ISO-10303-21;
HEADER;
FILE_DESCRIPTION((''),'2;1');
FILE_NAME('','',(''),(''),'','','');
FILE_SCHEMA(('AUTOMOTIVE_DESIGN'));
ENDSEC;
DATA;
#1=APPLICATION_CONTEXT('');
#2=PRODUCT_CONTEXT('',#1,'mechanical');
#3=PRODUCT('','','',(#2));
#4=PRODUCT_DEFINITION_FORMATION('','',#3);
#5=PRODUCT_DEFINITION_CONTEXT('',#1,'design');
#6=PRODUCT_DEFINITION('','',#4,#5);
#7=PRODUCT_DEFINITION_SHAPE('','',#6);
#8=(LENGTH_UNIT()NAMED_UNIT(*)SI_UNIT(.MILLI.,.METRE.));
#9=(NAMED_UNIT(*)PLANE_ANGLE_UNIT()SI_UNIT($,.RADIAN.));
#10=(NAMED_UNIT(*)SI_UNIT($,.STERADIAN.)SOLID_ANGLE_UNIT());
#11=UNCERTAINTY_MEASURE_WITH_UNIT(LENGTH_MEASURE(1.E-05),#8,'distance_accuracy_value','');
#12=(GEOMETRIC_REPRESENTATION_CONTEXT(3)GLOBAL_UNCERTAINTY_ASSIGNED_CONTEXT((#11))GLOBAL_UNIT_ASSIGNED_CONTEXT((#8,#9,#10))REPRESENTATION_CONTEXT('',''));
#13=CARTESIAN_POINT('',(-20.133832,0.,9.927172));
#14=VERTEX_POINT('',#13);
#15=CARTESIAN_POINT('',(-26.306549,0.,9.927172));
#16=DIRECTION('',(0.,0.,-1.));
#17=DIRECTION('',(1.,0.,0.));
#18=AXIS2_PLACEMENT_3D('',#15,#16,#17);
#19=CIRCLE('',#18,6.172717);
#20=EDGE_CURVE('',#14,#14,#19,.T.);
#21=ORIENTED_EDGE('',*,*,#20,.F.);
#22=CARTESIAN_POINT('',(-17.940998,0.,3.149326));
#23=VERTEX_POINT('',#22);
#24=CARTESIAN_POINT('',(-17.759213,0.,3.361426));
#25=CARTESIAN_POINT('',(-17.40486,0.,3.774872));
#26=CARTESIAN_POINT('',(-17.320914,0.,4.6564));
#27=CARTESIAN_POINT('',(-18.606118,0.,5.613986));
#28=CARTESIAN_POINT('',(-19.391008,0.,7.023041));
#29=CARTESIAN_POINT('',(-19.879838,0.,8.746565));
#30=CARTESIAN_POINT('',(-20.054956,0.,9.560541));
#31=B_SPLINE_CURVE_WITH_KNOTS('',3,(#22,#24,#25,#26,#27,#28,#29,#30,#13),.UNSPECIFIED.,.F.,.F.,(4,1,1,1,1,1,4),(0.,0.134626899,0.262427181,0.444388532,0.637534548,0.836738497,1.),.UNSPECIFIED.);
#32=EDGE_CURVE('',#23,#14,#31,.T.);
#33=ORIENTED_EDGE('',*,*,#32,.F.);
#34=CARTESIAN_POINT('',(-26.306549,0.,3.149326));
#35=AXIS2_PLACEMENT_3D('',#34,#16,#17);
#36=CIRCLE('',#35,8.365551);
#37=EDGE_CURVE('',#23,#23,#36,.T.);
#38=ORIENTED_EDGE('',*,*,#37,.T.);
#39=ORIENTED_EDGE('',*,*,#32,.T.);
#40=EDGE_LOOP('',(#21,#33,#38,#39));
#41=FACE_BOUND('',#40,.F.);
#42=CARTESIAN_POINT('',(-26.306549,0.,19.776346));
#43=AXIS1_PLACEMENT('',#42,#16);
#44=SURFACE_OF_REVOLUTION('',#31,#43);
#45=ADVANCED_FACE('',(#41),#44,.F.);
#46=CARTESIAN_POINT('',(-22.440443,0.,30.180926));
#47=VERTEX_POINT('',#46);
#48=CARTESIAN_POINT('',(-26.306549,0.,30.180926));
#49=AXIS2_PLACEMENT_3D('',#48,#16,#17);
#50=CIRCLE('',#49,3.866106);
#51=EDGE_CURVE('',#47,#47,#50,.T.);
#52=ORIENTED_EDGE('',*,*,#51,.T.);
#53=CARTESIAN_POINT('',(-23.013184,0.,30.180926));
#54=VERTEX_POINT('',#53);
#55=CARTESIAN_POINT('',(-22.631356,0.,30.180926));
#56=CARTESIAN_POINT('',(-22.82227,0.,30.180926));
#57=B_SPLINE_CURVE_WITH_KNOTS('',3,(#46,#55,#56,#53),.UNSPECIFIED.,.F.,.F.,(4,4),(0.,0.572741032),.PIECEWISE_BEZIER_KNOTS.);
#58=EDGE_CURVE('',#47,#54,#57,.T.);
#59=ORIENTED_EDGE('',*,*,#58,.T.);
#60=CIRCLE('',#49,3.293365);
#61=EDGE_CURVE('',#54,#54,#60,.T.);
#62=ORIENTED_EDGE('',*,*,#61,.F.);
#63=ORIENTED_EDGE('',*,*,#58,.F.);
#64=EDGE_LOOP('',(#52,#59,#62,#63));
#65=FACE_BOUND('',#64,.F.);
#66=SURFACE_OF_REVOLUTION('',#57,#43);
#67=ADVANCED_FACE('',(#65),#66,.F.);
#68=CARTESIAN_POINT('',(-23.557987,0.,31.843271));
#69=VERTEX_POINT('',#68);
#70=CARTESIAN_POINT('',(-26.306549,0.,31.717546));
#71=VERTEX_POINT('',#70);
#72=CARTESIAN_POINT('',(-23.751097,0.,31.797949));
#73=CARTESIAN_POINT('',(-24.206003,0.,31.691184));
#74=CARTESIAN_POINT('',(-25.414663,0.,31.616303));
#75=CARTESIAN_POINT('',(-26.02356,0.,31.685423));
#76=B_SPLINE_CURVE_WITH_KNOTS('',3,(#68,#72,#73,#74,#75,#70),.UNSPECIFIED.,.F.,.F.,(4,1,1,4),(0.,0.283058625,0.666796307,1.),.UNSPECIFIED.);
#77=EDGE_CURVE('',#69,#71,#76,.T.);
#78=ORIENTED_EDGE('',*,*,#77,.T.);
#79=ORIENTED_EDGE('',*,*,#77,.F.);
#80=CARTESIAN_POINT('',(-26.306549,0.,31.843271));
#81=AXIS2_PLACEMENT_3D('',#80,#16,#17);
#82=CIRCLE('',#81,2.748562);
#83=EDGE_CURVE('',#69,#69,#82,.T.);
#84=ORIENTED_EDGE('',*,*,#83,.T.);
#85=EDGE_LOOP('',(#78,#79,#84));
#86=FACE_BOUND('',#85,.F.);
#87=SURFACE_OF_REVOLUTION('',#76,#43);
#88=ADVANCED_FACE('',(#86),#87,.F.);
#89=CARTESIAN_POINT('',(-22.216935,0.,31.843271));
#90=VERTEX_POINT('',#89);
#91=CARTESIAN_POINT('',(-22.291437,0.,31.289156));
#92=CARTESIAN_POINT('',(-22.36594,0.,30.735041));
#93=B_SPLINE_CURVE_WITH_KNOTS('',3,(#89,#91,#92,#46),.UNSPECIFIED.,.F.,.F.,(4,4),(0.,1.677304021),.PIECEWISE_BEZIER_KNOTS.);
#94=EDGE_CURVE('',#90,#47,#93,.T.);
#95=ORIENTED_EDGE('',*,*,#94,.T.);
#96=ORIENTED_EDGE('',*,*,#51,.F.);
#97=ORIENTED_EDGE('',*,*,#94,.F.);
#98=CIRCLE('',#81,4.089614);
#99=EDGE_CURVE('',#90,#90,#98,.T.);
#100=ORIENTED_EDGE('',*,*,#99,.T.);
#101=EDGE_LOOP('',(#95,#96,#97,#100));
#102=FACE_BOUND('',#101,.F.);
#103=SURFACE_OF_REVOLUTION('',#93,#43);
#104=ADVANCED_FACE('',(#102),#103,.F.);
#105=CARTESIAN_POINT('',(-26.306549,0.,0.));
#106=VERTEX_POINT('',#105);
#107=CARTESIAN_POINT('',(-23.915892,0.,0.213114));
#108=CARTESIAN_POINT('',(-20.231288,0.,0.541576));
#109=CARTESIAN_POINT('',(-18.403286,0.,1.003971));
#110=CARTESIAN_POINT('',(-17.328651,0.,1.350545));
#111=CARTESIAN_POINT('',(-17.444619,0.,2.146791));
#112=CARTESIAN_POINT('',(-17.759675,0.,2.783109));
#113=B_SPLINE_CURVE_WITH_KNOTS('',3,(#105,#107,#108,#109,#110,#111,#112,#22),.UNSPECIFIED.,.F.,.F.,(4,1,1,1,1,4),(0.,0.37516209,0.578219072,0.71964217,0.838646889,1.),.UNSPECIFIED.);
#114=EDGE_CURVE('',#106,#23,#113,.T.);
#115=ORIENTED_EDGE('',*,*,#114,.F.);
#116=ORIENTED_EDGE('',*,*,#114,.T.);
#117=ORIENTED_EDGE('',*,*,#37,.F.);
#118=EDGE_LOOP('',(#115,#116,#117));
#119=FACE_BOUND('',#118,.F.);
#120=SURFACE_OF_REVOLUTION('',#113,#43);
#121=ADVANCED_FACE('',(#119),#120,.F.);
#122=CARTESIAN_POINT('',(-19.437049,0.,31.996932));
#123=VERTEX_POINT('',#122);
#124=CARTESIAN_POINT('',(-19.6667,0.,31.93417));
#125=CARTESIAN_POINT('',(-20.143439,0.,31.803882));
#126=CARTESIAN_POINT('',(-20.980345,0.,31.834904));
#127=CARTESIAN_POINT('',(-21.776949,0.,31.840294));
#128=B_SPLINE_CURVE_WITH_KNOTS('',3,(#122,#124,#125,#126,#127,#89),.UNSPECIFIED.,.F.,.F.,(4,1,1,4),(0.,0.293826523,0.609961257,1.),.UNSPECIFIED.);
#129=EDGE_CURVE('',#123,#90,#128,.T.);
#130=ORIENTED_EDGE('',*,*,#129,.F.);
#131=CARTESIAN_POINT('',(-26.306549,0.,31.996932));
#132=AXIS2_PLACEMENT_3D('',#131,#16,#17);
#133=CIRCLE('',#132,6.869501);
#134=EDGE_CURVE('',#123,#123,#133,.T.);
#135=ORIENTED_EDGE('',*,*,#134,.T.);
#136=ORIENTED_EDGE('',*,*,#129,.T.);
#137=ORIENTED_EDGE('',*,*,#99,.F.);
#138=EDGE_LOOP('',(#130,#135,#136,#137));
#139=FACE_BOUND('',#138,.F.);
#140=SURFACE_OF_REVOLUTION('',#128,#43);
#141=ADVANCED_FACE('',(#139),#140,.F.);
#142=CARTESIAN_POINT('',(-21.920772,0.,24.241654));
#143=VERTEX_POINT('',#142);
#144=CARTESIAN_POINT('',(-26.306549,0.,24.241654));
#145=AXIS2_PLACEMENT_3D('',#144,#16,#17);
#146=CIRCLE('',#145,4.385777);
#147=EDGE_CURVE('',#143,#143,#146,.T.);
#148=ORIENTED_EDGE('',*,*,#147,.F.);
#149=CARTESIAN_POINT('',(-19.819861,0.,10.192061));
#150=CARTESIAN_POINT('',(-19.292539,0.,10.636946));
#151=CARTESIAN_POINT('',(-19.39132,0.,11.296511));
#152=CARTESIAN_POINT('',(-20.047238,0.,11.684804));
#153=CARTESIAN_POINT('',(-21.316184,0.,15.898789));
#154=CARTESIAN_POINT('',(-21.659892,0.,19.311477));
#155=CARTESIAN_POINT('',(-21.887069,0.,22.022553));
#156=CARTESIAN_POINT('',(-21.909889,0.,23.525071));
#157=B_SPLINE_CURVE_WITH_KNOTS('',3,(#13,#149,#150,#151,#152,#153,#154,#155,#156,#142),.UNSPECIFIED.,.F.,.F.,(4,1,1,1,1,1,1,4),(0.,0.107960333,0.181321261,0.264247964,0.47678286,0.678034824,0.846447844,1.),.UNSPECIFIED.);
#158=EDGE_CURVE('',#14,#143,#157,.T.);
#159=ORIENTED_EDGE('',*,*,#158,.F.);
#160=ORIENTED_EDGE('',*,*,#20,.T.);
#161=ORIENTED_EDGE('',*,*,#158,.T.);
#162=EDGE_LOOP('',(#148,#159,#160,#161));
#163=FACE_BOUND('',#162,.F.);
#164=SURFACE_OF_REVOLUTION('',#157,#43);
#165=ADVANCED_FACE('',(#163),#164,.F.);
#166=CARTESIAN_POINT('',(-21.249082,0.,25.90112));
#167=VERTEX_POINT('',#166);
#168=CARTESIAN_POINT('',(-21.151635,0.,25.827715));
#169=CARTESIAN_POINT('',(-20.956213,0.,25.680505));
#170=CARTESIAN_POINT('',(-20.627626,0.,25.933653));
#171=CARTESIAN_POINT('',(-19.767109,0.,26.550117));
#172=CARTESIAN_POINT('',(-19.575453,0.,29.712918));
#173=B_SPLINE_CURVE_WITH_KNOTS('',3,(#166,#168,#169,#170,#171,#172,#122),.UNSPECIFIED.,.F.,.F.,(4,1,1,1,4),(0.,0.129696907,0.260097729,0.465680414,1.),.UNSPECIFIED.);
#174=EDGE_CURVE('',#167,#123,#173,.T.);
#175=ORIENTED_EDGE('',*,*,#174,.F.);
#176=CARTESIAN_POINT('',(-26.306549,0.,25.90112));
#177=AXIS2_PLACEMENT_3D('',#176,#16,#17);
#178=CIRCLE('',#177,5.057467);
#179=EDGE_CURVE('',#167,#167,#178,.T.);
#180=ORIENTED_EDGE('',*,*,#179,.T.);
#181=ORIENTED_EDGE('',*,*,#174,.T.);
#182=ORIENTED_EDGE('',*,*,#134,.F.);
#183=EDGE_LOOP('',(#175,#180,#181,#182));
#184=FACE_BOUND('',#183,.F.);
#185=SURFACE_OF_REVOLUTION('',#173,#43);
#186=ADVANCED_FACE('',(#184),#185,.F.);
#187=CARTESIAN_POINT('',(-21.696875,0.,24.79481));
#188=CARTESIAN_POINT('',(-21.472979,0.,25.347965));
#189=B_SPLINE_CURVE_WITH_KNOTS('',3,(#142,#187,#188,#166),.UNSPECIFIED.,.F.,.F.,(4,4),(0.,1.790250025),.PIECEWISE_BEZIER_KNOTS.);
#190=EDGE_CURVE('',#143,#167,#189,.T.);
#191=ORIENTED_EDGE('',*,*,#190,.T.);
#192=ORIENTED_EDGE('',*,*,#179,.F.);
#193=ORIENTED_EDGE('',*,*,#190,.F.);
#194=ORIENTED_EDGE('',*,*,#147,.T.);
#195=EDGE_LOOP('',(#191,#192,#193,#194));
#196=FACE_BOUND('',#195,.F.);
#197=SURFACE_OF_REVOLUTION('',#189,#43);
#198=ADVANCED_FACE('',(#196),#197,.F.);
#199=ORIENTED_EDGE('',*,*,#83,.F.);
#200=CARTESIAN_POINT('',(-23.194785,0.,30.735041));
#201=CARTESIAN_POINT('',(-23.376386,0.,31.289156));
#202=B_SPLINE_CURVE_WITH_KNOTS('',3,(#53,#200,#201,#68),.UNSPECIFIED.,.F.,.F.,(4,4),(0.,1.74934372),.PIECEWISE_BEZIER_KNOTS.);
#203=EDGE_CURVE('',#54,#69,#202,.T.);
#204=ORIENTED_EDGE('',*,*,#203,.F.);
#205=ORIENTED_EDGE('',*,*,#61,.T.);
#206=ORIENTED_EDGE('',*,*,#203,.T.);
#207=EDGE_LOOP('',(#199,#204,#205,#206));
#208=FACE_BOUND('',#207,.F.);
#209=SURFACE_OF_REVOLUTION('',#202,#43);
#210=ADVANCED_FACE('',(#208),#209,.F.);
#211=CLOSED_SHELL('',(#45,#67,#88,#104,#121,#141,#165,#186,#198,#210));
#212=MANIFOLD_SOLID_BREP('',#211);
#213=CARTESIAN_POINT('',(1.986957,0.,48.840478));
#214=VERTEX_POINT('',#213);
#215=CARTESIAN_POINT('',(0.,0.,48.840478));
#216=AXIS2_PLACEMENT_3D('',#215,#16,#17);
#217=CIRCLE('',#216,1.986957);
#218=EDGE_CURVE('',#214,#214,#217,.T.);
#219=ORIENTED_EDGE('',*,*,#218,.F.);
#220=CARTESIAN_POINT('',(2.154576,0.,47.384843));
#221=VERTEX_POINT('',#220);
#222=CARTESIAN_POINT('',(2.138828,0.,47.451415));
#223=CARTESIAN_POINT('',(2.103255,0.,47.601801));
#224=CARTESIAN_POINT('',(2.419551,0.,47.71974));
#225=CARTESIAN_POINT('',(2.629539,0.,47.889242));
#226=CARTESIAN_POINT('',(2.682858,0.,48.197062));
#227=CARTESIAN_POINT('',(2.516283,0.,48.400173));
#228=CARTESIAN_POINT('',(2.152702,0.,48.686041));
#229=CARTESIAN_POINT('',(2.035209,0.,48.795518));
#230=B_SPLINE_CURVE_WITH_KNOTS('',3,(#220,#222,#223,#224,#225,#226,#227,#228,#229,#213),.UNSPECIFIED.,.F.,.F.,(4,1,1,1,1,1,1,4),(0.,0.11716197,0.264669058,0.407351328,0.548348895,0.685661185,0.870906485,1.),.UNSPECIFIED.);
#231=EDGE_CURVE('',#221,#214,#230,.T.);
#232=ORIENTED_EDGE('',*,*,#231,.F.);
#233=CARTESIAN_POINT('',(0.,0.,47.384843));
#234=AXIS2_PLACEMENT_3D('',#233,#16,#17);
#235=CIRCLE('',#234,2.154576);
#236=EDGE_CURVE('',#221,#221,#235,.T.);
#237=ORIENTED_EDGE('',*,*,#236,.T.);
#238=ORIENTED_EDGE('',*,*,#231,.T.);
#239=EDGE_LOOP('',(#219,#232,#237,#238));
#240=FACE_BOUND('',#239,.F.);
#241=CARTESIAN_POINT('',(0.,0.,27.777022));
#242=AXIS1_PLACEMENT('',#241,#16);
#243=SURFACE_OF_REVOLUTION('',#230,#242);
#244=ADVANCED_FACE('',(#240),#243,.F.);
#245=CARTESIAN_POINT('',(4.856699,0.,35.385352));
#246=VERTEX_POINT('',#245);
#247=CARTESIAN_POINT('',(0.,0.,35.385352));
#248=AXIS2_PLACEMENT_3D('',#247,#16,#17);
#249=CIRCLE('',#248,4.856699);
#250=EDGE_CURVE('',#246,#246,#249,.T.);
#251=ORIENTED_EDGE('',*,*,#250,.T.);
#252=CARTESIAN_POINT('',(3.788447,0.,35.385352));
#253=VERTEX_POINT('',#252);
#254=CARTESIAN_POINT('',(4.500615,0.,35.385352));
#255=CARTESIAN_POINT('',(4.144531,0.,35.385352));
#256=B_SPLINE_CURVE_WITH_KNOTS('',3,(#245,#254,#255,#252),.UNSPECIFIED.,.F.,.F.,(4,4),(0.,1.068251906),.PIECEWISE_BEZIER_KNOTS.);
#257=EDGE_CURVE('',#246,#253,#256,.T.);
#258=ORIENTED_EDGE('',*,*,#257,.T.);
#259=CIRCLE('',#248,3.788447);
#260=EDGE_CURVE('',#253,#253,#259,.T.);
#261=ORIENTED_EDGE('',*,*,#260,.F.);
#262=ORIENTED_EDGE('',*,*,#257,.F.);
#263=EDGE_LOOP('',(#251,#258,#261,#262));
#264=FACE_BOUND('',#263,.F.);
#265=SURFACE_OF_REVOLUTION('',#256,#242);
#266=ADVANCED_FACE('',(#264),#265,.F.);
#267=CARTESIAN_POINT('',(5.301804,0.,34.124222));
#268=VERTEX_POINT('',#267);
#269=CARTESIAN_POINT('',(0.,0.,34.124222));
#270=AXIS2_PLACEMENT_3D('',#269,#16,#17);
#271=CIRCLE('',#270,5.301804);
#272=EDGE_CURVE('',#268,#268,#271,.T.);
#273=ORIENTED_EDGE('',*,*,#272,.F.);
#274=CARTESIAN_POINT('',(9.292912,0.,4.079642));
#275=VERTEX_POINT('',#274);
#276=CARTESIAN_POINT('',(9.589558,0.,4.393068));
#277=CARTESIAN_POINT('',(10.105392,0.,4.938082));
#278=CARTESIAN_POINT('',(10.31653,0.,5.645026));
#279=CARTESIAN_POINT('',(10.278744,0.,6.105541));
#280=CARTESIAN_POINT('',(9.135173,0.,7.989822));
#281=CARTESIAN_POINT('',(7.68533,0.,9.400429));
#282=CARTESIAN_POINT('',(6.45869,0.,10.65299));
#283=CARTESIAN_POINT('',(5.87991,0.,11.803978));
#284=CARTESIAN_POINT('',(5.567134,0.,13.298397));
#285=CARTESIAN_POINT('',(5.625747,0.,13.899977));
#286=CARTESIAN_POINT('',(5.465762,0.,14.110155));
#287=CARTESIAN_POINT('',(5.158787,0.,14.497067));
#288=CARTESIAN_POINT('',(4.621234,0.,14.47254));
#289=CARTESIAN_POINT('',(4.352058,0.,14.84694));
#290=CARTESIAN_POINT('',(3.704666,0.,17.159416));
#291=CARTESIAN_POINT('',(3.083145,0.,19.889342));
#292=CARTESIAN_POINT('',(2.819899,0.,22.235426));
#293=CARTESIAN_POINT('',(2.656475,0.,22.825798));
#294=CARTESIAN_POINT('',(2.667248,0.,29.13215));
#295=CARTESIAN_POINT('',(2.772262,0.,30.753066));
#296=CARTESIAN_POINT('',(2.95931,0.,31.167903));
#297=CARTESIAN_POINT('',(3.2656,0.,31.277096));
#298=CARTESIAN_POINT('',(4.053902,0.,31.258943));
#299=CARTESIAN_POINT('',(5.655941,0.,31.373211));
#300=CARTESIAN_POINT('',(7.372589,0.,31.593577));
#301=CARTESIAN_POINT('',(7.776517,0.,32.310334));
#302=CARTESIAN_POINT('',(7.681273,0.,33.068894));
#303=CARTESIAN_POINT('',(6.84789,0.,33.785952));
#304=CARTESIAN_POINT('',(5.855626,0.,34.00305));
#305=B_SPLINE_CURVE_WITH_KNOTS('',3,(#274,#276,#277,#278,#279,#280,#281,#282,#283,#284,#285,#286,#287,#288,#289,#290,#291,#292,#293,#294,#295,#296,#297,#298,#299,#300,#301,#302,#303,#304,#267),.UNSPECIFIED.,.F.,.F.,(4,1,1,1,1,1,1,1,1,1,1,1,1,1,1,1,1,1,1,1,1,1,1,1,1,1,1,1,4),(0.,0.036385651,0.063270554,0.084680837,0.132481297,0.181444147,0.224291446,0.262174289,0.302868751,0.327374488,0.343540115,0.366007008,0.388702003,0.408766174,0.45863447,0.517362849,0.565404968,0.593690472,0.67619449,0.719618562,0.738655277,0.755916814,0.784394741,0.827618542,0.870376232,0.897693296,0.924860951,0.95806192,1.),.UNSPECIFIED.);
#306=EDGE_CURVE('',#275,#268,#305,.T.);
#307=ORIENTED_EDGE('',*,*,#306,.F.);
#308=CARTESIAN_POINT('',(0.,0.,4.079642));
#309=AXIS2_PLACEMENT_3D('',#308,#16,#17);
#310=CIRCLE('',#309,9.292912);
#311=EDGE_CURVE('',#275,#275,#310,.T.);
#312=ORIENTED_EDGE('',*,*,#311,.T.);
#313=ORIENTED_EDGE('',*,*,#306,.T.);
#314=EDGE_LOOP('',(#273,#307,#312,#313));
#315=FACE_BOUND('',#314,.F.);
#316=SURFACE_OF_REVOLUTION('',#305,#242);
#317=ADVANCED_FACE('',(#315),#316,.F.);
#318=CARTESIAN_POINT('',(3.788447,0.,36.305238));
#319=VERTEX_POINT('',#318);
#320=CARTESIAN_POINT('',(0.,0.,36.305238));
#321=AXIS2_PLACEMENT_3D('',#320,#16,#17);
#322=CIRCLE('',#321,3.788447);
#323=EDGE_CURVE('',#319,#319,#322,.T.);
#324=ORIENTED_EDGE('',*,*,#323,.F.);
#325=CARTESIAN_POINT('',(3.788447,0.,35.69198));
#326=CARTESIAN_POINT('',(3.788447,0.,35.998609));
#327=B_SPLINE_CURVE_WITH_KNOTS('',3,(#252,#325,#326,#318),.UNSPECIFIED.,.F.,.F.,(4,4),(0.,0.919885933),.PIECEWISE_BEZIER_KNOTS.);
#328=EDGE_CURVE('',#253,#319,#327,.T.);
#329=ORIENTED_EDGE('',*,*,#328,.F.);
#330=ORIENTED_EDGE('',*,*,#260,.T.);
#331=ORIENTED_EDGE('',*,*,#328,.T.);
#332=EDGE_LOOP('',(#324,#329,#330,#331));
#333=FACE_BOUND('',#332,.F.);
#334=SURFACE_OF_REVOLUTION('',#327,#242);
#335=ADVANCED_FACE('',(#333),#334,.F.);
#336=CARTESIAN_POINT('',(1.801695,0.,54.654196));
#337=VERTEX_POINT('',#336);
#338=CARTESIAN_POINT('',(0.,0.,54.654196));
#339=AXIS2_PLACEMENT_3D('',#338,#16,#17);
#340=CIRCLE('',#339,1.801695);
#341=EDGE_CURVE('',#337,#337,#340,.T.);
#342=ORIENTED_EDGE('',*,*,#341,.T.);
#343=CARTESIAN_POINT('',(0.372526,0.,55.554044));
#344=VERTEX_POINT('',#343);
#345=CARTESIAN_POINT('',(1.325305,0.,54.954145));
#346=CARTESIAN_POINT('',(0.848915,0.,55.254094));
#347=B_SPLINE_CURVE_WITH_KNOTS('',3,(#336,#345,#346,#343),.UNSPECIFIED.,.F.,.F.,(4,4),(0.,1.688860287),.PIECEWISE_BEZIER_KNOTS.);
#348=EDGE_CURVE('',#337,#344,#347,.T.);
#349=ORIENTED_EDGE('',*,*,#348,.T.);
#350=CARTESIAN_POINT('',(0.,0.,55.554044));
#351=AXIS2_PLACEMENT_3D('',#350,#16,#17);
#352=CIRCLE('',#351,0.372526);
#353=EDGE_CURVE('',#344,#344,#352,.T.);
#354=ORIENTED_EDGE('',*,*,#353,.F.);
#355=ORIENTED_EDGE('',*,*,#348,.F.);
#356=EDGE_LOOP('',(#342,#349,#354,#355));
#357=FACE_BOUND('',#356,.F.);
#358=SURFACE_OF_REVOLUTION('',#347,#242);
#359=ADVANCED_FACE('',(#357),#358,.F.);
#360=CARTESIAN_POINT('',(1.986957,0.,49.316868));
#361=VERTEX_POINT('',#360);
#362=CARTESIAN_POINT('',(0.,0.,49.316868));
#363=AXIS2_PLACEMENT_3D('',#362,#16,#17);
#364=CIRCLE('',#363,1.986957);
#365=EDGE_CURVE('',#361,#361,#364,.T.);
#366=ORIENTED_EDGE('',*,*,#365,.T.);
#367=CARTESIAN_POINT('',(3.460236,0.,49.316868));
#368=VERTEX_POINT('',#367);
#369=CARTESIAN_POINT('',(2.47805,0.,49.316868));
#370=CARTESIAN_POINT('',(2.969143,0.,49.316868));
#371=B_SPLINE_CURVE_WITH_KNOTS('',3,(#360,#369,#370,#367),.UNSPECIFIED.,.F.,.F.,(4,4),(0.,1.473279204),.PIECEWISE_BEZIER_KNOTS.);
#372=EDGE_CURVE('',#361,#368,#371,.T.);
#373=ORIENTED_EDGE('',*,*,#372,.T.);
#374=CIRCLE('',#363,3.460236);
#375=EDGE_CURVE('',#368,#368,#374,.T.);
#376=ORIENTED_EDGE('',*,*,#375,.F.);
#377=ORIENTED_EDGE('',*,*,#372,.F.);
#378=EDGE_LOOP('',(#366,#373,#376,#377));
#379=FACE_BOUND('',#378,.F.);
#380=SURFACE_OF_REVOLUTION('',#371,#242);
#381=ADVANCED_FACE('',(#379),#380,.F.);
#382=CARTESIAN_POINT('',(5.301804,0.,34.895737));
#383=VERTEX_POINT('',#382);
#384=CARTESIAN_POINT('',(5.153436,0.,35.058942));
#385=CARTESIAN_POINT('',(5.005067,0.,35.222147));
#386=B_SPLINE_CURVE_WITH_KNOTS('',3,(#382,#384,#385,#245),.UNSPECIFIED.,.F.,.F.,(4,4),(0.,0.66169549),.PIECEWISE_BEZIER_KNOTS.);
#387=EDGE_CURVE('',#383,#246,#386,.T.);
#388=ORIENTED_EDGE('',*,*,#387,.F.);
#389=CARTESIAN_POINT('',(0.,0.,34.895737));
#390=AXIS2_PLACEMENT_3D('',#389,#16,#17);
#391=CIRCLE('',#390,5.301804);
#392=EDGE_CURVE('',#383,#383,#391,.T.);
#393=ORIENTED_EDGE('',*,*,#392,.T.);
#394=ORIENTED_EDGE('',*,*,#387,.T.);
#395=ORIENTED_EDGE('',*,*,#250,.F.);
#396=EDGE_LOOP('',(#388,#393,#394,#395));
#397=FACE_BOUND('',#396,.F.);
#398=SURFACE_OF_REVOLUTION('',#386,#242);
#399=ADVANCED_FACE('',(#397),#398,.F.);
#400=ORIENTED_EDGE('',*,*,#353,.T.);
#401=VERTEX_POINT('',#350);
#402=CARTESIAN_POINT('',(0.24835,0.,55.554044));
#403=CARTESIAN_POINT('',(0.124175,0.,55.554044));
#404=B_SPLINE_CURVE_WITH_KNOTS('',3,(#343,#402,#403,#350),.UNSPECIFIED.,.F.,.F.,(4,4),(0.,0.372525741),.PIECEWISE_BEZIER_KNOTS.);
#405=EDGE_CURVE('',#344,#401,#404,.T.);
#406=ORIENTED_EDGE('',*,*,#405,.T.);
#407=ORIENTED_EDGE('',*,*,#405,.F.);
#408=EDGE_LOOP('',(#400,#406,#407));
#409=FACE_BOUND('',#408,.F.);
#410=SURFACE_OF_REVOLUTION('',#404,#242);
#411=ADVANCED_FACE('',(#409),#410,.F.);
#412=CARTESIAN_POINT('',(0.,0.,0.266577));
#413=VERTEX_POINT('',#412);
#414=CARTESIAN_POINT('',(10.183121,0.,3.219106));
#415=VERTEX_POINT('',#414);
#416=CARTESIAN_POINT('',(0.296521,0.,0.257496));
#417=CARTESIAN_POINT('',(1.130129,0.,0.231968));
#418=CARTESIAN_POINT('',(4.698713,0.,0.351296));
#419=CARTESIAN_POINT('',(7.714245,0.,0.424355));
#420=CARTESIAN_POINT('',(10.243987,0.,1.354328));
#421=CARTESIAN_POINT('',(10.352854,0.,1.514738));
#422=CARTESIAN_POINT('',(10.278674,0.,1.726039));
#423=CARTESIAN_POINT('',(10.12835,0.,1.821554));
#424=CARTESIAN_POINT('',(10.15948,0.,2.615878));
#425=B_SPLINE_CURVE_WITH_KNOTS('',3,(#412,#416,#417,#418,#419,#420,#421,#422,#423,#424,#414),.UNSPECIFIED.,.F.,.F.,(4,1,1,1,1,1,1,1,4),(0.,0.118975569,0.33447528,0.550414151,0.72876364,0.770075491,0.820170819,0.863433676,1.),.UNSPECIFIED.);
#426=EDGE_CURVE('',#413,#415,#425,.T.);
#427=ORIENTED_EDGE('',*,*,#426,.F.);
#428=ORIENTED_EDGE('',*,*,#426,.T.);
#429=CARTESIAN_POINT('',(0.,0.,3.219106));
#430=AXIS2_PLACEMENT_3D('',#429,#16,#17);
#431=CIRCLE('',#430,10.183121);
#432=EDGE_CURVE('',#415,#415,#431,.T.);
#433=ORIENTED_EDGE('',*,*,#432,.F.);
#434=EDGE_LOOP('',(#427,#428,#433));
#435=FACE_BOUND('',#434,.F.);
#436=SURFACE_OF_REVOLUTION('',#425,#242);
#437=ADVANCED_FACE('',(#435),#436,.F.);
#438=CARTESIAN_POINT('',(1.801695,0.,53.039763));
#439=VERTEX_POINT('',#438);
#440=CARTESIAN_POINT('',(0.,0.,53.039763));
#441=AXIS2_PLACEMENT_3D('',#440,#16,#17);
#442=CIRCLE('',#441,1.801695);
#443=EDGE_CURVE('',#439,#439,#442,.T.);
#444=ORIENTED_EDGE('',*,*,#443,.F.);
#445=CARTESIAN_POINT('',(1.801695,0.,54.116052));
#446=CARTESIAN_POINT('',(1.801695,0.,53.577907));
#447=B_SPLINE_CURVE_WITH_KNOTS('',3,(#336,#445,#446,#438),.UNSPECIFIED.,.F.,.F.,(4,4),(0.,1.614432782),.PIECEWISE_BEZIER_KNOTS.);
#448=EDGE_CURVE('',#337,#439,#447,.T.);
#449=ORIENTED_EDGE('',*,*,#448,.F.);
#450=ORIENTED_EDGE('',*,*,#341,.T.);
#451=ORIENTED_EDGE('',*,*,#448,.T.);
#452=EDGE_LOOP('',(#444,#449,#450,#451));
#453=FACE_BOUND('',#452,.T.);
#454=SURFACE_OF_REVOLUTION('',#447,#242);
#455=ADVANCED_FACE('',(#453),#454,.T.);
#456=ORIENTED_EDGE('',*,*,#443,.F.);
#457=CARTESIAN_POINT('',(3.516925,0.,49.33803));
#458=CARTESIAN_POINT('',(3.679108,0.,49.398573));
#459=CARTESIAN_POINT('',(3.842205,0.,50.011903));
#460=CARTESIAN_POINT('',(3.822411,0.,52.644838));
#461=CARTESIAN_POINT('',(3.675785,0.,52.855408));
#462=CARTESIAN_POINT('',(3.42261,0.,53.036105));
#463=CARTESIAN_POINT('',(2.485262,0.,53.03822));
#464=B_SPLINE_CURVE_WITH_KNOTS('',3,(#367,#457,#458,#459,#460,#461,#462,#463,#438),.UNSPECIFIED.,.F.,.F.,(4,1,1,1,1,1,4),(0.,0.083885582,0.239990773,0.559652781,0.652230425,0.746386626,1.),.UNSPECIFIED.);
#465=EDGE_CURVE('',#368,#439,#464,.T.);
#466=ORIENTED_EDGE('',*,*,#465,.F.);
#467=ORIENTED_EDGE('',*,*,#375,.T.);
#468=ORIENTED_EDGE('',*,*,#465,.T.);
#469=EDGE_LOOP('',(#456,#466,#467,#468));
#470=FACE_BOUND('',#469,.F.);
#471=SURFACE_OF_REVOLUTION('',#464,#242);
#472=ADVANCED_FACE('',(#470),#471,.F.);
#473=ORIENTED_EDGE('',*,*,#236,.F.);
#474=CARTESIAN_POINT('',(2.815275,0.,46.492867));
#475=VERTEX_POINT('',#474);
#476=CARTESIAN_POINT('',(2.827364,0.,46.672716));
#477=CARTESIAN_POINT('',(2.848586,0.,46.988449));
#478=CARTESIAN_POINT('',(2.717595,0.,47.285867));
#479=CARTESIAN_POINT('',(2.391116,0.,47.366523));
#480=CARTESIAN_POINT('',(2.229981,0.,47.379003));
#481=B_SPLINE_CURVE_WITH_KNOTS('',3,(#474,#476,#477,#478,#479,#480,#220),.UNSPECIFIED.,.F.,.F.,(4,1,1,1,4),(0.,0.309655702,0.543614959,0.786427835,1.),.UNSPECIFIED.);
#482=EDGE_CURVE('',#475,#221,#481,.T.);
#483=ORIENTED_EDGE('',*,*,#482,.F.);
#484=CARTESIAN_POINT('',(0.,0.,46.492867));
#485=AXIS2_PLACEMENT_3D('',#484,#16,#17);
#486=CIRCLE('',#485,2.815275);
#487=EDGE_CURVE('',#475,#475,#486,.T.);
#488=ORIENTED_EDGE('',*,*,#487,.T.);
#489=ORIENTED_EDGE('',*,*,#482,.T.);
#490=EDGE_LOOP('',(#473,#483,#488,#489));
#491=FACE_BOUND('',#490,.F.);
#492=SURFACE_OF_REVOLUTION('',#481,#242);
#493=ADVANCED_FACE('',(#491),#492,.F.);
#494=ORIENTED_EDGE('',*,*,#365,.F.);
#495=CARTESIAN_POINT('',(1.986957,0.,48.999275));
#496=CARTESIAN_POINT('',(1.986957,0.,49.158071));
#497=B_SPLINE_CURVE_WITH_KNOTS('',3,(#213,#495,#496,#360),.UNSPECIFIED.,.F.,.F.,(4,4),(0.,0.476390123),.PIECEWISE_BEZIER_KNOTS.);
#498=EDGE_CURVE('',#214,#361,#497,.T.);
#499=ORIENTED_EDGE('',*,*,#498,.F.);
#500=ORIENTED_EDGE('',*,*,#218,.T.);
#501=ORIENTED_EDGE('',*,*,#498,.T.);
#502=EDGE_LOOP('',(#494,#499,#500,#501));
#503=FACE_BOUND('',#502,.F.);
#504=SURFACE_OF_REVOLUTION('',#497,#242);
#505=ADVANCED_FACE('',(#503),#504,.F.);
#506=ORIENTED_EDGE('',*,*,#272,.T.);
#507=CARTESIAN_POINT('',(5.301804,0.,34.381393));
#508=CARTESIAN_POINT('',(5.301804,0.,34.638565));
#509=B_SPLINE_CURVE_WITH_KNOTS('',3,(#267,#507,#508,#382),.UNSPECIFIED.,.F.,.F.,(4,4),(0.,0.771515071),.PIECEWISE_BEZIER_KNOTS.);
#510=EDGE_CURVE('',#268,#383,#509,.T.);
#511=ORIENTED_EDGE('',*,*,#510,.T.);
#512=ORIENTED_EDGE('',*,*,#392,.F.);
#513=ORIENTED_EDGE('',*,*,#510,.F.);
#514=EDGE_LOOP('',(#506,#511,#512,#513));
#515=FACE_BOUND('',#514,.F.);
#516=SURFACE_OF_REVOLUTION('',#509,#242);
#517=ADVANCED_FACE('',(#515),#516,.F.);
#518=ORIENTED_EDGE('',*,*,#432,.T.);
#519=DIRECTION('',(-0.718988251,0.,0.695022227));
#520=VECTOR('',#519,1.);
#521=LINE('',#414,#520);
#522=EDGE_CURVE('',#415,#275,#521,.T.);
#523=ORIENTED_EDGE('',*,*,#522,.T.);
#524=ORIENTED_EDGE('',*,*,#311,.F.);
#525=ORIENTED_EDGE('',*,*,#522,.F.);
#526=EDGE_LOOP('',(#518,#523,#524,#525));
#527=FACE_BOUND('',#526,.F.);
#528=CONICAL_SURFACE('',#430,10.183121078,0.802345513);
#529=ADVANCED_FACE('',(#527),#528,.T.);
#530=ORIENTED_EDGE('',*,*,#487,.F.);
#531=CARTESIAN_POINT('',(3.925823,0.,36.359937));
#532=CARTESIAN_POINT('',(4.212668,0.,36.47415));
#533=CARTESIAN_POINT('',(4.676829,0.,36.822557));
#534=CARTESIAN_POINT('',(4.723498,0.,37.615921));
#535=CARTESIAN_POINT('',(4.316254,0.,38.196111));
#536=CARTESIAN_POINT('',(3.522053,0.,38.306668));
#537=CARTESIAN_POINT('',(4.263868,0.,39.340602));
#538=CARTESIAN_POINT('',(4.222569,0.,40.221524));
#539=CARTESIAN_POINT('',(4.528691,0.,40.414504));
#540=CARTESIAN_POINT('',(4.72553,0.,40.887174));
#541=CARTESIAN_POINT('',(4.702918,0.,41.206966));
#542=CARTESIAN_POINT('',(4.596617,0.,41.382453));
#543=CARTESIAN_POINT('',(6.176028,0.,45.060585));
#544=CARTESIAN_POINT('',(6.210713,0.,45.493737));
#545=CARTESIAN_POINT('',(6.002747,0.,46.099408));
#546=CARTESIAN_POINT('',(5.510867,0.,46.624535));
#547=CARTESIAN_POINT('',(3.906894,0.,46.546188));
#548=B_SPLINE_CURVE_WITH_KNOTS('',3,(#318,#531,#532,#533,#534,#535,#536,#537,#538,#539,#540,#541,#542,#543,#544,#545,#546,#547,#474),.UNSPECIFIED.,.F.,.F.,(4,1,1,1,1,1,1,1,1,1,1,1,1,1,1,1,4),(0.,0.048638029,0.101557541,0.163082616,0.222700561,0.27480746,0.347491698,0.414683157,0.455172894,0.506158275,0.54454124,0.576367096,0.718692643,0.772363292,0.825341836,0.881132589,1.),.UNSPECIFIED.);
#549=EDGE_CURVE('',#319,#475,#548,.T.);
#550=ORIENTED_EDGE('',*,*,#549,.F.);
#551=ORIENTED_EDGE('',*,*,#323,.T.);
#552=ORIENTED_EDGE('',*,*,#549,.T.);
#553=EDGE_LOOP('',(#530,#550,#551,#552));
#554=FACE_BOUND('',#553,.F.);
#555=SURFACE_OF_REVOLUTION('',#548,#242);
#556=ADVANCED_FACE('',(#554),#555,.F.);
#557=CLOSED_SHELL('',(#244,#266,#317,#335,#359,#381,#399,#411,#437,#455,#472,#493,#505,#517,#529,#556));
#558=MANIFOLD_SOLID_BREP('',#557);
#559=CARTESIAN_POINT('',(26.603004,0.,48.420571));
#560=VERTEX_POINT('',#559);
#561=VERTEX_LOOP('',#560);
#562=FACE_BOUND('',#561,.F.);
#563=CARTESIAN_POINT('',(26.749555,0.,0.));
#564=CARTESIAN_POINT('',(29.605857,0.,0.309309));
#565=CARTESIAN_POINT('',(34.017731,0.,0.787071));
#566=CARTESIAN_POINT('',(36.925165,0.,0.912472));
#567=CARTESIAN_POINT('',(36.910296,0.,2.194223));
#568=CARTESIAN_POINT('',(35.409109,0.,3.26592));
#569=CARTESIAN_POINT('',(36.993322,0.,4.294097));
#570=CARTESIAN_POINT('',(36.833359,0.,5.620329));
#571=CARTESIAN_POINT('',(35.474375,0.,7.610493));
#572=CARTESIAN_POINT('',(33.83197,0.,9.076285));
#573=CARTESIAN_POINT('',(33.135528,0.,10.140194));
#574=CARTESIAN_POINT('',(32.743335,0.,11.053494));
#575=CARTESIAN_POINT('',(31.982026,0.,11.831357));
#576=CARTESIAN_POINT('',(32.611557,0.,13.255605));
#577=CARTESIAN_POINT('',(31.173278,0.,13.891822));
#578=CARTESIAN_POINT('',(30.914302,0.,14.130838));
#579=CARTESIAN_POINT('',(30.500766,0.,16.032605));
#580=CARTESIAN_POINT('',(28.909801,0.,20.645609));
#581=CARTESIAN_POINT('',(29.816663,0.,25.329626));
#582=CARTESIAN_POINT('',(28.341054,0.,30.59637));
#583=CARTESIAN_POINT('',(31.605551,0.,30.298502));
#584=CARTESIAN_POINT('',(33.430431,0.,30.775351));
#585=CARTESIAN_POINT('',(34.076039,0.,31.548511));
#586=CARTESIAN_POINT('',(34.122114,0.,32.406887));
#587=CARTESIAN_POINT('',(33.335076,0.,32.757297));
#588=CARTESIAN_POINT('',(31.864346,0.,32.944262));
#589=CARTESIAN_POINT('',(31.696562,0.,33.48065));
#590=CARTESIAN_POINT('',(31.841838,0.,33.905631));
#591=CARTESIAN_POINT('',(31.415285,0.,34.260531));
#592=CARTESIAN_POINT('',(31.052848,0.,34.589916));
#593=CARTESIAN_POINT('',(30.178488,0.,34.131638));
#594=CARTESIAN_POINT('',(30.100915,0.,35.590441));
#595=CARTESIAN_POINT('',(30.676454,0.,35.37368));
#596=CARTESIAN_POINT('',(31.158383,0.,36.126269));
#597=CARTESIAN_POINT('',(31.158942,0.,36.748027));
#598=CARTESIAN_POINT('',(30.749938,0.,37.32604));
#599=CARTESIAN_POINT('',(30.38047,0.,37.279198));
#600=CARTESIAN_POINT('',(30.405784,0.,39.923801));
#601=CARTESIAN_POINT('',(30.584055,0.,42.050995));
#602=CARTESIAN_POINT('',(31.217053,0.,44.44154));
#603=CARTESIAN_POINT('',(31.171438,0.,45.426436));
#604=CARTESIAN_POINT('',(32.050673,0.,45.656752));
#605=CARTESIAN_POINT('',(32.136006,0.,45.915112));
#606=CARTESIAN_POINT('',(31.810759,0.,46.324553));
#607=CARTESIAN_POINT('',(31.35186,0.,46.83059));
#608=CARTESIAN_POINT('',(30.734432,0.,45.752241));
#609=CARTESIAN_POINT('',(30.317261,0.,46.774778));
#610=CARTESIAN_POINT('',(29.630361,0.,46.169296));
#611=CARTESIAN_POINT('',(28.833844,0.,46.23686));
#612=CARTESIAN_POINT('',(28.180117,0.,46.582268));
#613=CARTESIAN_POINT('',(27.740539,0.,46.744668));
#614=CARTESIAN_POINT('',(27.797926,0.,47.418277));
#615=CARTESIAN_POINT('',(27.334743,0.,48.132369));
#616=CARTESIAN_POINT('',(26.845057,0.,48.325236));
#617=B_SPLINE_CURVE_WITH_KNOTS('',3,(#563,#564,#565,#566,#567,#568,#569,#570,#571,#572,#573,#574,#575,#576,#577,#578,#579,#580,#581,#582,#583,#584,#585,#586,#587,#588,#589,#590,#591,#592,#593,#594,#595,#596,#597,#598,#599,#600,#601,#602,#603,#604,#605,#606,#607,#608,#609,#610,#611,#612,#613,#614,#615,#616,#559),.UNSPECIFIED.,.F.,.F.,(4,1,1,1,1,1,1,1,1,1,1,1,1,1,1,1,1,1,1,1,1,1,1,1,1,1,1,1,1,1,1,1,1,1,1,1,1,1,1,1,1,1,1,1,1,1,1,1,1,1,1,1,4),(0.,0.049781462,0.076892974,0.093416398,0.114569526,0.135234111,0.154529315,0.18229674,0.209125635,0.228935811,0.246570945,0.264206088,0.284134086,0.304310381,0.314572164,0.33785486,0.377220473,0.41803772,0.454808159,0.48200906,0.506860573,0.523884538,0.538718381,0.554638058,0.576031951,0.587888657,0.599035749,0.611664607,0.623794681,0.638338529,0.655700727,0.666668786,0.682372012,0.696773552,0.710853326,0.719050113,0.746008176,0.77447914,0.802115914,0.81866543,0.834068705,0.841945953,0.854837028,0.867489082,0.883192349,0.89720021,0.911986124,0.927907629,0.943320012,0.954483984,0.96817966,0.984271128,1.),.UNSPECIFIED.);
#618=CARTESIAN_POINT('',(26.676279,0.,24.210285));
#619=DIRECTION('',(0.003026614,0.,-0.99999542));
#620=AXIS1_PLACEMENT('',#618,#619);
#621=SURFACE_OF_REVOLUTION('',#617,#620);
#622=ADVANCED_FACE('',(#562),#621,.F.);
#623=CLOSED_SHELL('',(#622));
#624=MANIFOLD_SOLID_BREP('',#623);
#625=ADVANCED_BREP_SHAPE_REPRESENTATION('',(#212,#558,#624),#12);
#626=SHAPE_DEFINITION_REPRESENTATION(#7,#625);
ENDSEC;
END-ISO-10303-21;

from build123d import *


with BuildPart() as f1:
    # F0 (on Front) → F1 (revolve)
    with BuildSketch(Plane.XZ):
        with BuildLine():
            Line((0, 55.5540435016), (0, 0.2665770007))
            add(Edge.make_bspline(
                [(0, 0.2665770007), (0.2965209904, 0.2574963791), (1.1301286118, 0.2319680837), (4.6987128656, 0.3512958273), (7.7142450165, 0.4243552396), (10.2439865204, 1.354328125), (10.352853608, 1.514737577), (10.2786739454, 1.7260388707), (10.1283499087, 1.8215543834), (10.1594801059, 2.6158783131), (10.1831210777, 3.2191057689)],
                knots=[0, 0, 0, 0, 0.1189755692, 0.3344752797, 0.5504141513, 0.7287636396, 0.7700754913, 0.8201708187, 0.8634336755, 1, 1, 1, 1], degree=3))
            Line((10.1831210777, 3.2191057689), (9.2929117382, 4.0796417743))
            add(Edge.make_bspline(
                [(9.2929117382, 4.0796417743), (9.5895576935, 4.3930683636), (10.1053916315, 4.9380819359), (10.3165303096, 5.6450260493), (10.278743784, 6.1055410358), (9.1351732574, 7.9898221184), (7.6853299882, 9.4004291398), (6.4586896575, 10.6529896216), (5.8799101912, 11.803977507), (5.5671343972, 13.2983974051), (5.6257468289, 13.8999766608), (5.4657622721, 14.1101552214), (5.1587870691, 14.4970665258), (4.6212344294, 14.472540329), (4.3520576529, 14.8469402056), (3.704666123, 17.1594155114), (3.0831448939, 19.8893419903), (2.8198985067, 22.2354257612), (2.6564754974, 22.8257975471), (2.6672475936, 29.1321501292), (2.7722616381, 30.7530663164), (2.9593099857, 31.1679030881), (3.2655997104, 31.2770955741), (4.0539021342, 31.2589434996), (5.6559407843, 31.3732111959), (7.3725889343, 31.5935773196), (7.7765165564, 32.3103338743), (7.6812727191, 33.0688936178), (6.8478901137, 33.7859518872), (5.8556258282, 34.0030503815), (5.3018038161, 34.1242216527)],
                knots=[0, 0, 0, 0, 0.0363856513, 0.0632705536, 0.0846808371, 0.1324812973, 0.1814441473, 0.2242914457, 0.2621742892, 0.3028687515, 0.3273744884, 0.3435401147, 0.3660070084, 0.3887020027, 0.4087661736, 0.4586344698, 0.5173628492, 0.5654049683, 0.5936904721, 0.6761944899, 0.7196185615, 0.7386552768, 0.7559168143, 0.7843947411, 0.8276185415, 0.8703762322, 0.8976932961, 0.9248609512, 0.9580619198, 1, 1, 1, 1], degree=3))
            add(Edge.make_bspline(
                [(5.3018038161, 34.1242216527), (5.3018038161, 34.3813933432), (5.3018038161, 34.6385650337), (5.3018038161, 34.8957367241)],
                knots=[0, 0, 0, 0, 0.7715150714, 0.7715150714, 0.7715150714, 0.7715150714], degree=3))
            add(Edge.make_bspline(
                [(5.3018038161, 34.8957367241), (5.1534355929, 35.0589416921), (5.0050673696, 35.2221466601), (4.8566991463, 35.3853516281)],
                knots=[0, 0, 0, 0, 0.6616954898, 0.6616954898, 0.6616954898, 0.6616954898], degree=3))
            add(Edge.make_bspline(
                [(4.8566991463, 35.3853516281), (4.5006151777, 35.3853516281), (4.144531209, 35.3853516281), (3.7884472404, 35.3853516281)],
                knots=[0, 0, 0, 0, 1.068251906, 1.068251906, 1.068251906, 1.068251906], degree=3))
            add(Edge.make_bspline(
                [(3.7884472404, 35.3853516281), (3.7884472404, 35.6919802725), (3.7884472404, 35.998608917), (3.7884472404, 36.3052375615)],
                knots=[0, 0, 0, 0, 0.9198859334, 0.9198859334, 0.9198859334, 0.9198859334], degree=3))
            add(Edge.make_bspline(
                [(3.7884472404, 36.3052375615), (3.9258230899, 36.3599366834), (4.2126676412, 36.4741499541), (4.6768285043, 36.8225568859), (4.7234977387, 37.6159211078), (4.3162540994, 38.196111393), (3.5220528293, 38.3066680438), (4.2638681007, 39.340601646), (4.2225688595, 40.2215240834), (4.5286910951, 40.4145040873), (4.7255297939, 40.8871736513), (4.7029183708, 41.2069661292), (4.5966168874, 41.3824528629), (6.1760277108, 45.0605846668), (6.210712539, 45.4937372218), (6.0027467013, 46.0994083083), (5.5108669404, 46.6245353009), (3.9068940629, 46.5461880777), (2.815275453, 46.4928671718)],
                knots=[0, 0, 0, 0, 0.0486380286, 0.1015575412, 0.1630826165, 0.222700561, 0.2748074597, 0.3474916978, 0.414683157, 0.455172894, 0.5061582753, 0.5445412405, 0.5763670958, 0.7186926434, 0.7723632918, 0.8253418357, 0.8811325895, 1, 1, 1, 1], degree=3))
            add(Edge.make_bspline(
                [(2.815275453, 46.4928671718), (2.827364077, 46.6727161265), (2.8485862174, 46.9884493149), (2.7175948765, 47.2858671532), (2.3911155866, 47.3665231033), (2.2299809905, 47.3790030525), (2.1545756608, 47.3848432302)],
                knots=[0, 0, 0, 0, 0.3096557019, 0.5436149587, 0.7864278354, 1, 1, 1, 1], degree=3))
            add(Edge.make_bspline(
                [(2.1545756608, 47.3848432302), (2.1388282933, 47.4514151987), (2.1032549676, 47.6018013701), (2.4195505468, 47.7197404124), (2.6295392664, 47.8892420218), (2.6828583388, 48.1970619145), (2.5162833299, 48.4001727421), (2.1527015851, 48.686040776), (2.0352092325, 48.795517759), (1.9869571552, 48.8404780626)],
                knots=[0, 0, 0, 0, 0.1171619703, 0.2646690575, 0.4073513277, 0.5483488953, 0.685661185, 0.870906485, 1, 1, 1, 1], degree=3))
            add(Edge.make_bspline(
                [(1.9869571552, 48.8404780626), (1.9869571552, 48.9992747704), (1.9869571552, 49.1580714782), (1.9869571552, 49.316868186)],
                knots=[0, 0, 0, 0, 0.4763901234, 0.4763901234, 0.4763901234, 0.4763901234], degree=3))
            add(Edge.make_bspline(
                [(1.9869571552, 49.316868186), (2.4780502232, 49.316868186), (2.9691432913, 49.316868186), (3.4602363594, 49.316868186)],
                knots=[0, 0, 0, 0, 1.4732792042, 1.4732792042, 1.4732792042, 1.4732792042], degree=3))
            add(Edge.make_bspline(
                [(3.4602363594, 49.316868186), (3.5169251899, 49.3380301525), (3.6791079631, 49.3985730565), (3.8422045672, 50.011902793), (3.8224109795, 52.6448380388), (3.6757850098, 52.8554081808), (3.4226102884, 53.0361050703), (2.485262145, 53.0382204601), (1.8016945105, 53.0397631228)],
                knots=[0, 0, 0, 0, 0.0838855816, 0.239990773, 0.5596527807, 0.6522304255, 0.7463866259, 1, 1, 1, 1], degree=3))
            add(Edge.make_bspline(
                [(1.8016945105, 54.6541959047), (1.8016945105, 54.1160516441), (1.8016945105, 53.5779073834), (1.8016945105, 53.0397631228)],
                knots=[0, 0, 0, 0, 1.6144327819, 1.6144327819, 1.6144327819, 1.6144327819], degree=3))
            add(Edge.make_bspline(
                [(1.8016945105, 54.6541959047), (1.3253049207, 54.9541451037), (0.8489153309, 55.2540943027), (0.3725257411, 55.5540435016)],
                knots=[0, 0, 0, 0, 1.688860287, 1.688860287, 1.688860287, 1.688860287], degree=3))
            add(Edge.make_bspline(
                [(0.3725257411, 55.5540435016), (0.2483504941, 55.5540435016), (0.124175247, 55.5540435016), (0, 55.5540435016)],
                knots=[0, 0, 0, 0, 0.3725257411, 0.3725257411, 0.3725257411, 0.3725257411], degree=3))
        make_face()
    revolve(axis=Axis((0, 0, 27.7770217508), (0, 0, -1)))


with BuildPart() as f2:
    # F0 (on Front) → F2 (revolve)
    with BuildSketch(Plane.XZ):
        with BuildLine():
            Line((26.6030039638, 48.4205707908), (26.7495550215, 0))
            add(Edge.make_bspline(
                [(26.7495550215, 0), (29.6058569101, 0.3093089335), (34.0177311159, 0.7870707943), (36.9251652119, 0.9124717088), (36.9102962949, 2.1942234822), (35.4091085367, 3.2659202874), (36.993322132, 4.294096527), (36.8333586891, 5.6203294481), (35.474374967, 7.6104932925), (33.8319697277, 9.0762846439), (33.1355282017, 10.1401937045), (32.7433346658, 11.0534942099), (31.9820258752, 11.8313566086), (32.6115568494, 13.2556047814), (31.1732777363, 13.8918222664), (30.9143020597, 14.1308381183), (30.5007662143, 16.0326053622), (28.9098007919, 20.6456092503), (29.8166628121, 25.3296261469), (28.3410535508, 30.5963695361), (31.6055507098, 30.2985017255), (33.4304306235, 30.7753509293), (34.0760385675, 31.5485111458), (34.1221136089, 32.4068870744), (33.3350755938, 32.7572973593), (31.864345883, 32.9442619618), (31.6965619448, 33.4806495439), (31.8418381038, 33.9056309868), (31.4152852495, 34.2605311994), (31.0528479115, 34.5899155277), (30.1784878489, 34.1316377724), (30.1009149544, 35.590440773), (30.676454183, 35.3736795603), (31.1583830432, 36.1262690732), (31.1589415913, 36.7480271235), (30.7499378365, 37.3260399149), (30.3804696853, 37.2791975168), (30.4057841247, 39.9238005445), (30.5840552008, 42.0509946328), (31.2170531265, 44.4415399552), (31.1714378069, 45.4264362081), (32.0506729469, 45.6567515927), (32.1360063175, 45.9151116136), (31.810758745, 46.3245532644), (31.3518596726, 46.8305904964), (30.7344315087, 45.7522407352), (30.3172611785, 46.7747779292), (29.6303614793, 46.1692964374), (28.833844355, 46.2368600854), (28.1801172213, 46.5822678682), (27.7405393055, 46.7446681882), (27.7979263194, 47.4182771472), (27.3347430927, 48.1323687275), (26.8450570022, 48.325236016), (26.6030039638, 48.4205707908)],
                knots=[0, 0, 0, 0, 0.0497814616, 0.0768929738, 0.0934163977, 0.1145695258, 0.1352341106, 0.1545293153, 0.1822967403, 0.2091256351, 0.2289358114, 0.2465709453, 0.2642060879, 0.2841340862, 0.3043103811, 0.3145721644, 0.3378548602, 0.3772204728, 0.41803772, 0.4548081592, 0.4820090603, 0.5068605727, 0.5238845384, 0.5387183814, 0.5546380581, 0.576031951, 0.5878886566, 0.5990357489, 0.611664607, 0.6237946807, 0.6383385286, 0.6557007274, 0.666668786, 0.682372012, 0.6967735516, 0.7108533258, 0.7190501134, 0.7460081764, 0.7744791404, 0.8021159142, 0.8186654302, 0.834068705, 0.8419459533, 0.854837028, 0.8674890816, 0.8831923491, 0.8972002102, 0.911986124, 0.9279076293, 0.9433200116, 0.9544839839, 0.9681796599, 0.9842711276, 1, 1, 1, 1], degree=3))
        make_face()
    revolve(axis=Axis((26.6762794927, 0, 24.2102853954), (0.0030266142, 0, -0.9999954198)))


with BuildPart() as f3:
    # F0 (on Front) → F3 (revolve)
    with BuildSketch(Plane.XZ):
        with BuildLine():
            Line((-26.3065490872, 31.7175462842), (-26.3065490872, 0))
            add(Edge.make_bspline(
                [(-26.3065490872, 0), (-23.9158916526, 0.2131140664), (-20.2312876919, 0.5415764056), (-18.4032862646, 1.0039706404), (-17.3286513127, 1.350545497), (-17.4446187226, 2.146791445), (-17.7596750768, 2.7831087952), (-17.9409980774, 3.1493257266)],
                knots=[0, 0, 0, 0, 0.3751620903, 0.5782190722, 0.7196421695, 0.8386468885, 1, 1, 1, 1], degree=3))
            add(Edge.make_bspline(
                [(-17.9409980774, 3.1493257266), (-17.7592127491, 3.3614261379), (-17.4048600036, 3.7748718422), (-17.3209140125, 4.6563998849), (-18.6061184253, 5.6139859945), (-19.3910083139, 7.0230412547), (-19.8798381213, 8.7465651516), (-20.0549559757, 9.560541435), (-20.1338324696, 9.9271722138)],
                knots=[0, 0, 0, 0, 0.1346268987, 0.2624271806, 0.4443885324, 0.6375345479, 0.8367384975, 1, 1, 1, 1], degree=3))
            add(Edge.make_bspline(
                [(-20.1338324696, 9.9271722138), (-19.8198605547, 10.1920609), (-19.2925392521, 10.6369460646), (-19.3913197795, 11.2965111095), (-20.0472380741, 11.6848044694), (-21.3161843037, 15.8987885482), (-21.6598918162, 19.3114766216), (-21.8870691752, 22.0225526005), (-21.9098890009, 23.5250707828), (-21.9207722694, 24.2416542023)],
                knots=[0, 0, 0, 0, 0.1079603331, 0.1813212609, 0.2642479635, 0.4767828603, 0.6780348245, 0.8464478439, 1, 1, 1, 1], degree=3))
            add(Edge.make_bspline(
                [(-21.9207722694, 24.2416542023), (-21.6968754927, 24.7948095202), (-21.4729787161, 25.3479648381), (-21.2490819395, 25.901120156)],
                knots=[0, 0, 0, 0, 1.7902500247, 1.7902500247, 1.7902500247, 1.7902500247], degree=3))
            add(Edge.make_bspline(
                [(-21.2490819395, 25.901120156), (-21.1516351854, 25.8277145599), (-20.9562127966, 25.6805049674), (-20.6276255916, 25.9336528793), (-19.7671094531, 26.5501167494), (-19.5754530433, 29.7129183154), (-19.4370485842, 31.9969318807)],
                knots=[0, 0, 0, 0, 0.1296969073, 0.2600977292, 0.465680414, 1, 1, 1, 1], degree=3))
            add(Edge.make_bspline(
                [(-19.4370485842, 31.9969318807), (-19.6666999448, 31.9341703059), (-20.1434385014, 31.8038821052), (-20.9803453529, 31.8349040899), (-21.7769489577, 31.8402940728), (-22.2169347107, 31.8432711065)],
                knots=[0, 0, 0, 0, 0.2938265231, 0.6099612566, 1, 1, 1, 1], degree=3))
            add(Edge.make_bspline(
                [(-22.2169347107, 31.8432711065), (-22.2914374123, 31.2891559054), (-22.3659401139, 30.7350407044), (-22.4404428154, 30.1809255034)],
                knots=[0, 0, 0, 0, 1.6773040205, 1.6773040205, 1.6773040205, 1.6773040205], degree=3))
            add(Edge.make_bspline(
                [(-22.4404428154, 30.1809255034), (-22.6313564926, 30.1809255034), (-22.8222701699, 30.1809255034), (-23.0131838471, 30.1809255034)],
                knots=[0, 0, 0, 0, 0.5727410316, 0.5727410316, 0.5727410316, 0.5727410316], degree=3))
            add(Edge.make_bspline(
                [(-23.0131838471, 30.1809255034), (-23.1947849194, 30.7350407044), (-23.3763859918, 31.2891559054), (-23.5579870641, 31.8432711065)],
                knots=[0, 0, 0, 0, 1.7493437197, 1.7493437197, 1.7493437197, 1.7493437197], degree=3))
            add(Edge.make_bspline(
                [(-23.5579870641, 31.8432711065), (-23.7510971643, 31.7979488845), (-24.206003287, 31.69118411), (-25.4146632736, 31.6163031987), (-26.0235599499, 31.6854225605), (-26.3065490872, 31.7175462842)],
                knots=[0, 0, 0, 0, 0.283058625, 0.6667963069, 1, 1, 1, 1], degree=3))
        make_face()
    revolve(axis=Axis((-26.3065490872, 0, 19.7763459291), (0, 0, -1)))


solid = Compound([f1.part, f2.part, f3.part])
